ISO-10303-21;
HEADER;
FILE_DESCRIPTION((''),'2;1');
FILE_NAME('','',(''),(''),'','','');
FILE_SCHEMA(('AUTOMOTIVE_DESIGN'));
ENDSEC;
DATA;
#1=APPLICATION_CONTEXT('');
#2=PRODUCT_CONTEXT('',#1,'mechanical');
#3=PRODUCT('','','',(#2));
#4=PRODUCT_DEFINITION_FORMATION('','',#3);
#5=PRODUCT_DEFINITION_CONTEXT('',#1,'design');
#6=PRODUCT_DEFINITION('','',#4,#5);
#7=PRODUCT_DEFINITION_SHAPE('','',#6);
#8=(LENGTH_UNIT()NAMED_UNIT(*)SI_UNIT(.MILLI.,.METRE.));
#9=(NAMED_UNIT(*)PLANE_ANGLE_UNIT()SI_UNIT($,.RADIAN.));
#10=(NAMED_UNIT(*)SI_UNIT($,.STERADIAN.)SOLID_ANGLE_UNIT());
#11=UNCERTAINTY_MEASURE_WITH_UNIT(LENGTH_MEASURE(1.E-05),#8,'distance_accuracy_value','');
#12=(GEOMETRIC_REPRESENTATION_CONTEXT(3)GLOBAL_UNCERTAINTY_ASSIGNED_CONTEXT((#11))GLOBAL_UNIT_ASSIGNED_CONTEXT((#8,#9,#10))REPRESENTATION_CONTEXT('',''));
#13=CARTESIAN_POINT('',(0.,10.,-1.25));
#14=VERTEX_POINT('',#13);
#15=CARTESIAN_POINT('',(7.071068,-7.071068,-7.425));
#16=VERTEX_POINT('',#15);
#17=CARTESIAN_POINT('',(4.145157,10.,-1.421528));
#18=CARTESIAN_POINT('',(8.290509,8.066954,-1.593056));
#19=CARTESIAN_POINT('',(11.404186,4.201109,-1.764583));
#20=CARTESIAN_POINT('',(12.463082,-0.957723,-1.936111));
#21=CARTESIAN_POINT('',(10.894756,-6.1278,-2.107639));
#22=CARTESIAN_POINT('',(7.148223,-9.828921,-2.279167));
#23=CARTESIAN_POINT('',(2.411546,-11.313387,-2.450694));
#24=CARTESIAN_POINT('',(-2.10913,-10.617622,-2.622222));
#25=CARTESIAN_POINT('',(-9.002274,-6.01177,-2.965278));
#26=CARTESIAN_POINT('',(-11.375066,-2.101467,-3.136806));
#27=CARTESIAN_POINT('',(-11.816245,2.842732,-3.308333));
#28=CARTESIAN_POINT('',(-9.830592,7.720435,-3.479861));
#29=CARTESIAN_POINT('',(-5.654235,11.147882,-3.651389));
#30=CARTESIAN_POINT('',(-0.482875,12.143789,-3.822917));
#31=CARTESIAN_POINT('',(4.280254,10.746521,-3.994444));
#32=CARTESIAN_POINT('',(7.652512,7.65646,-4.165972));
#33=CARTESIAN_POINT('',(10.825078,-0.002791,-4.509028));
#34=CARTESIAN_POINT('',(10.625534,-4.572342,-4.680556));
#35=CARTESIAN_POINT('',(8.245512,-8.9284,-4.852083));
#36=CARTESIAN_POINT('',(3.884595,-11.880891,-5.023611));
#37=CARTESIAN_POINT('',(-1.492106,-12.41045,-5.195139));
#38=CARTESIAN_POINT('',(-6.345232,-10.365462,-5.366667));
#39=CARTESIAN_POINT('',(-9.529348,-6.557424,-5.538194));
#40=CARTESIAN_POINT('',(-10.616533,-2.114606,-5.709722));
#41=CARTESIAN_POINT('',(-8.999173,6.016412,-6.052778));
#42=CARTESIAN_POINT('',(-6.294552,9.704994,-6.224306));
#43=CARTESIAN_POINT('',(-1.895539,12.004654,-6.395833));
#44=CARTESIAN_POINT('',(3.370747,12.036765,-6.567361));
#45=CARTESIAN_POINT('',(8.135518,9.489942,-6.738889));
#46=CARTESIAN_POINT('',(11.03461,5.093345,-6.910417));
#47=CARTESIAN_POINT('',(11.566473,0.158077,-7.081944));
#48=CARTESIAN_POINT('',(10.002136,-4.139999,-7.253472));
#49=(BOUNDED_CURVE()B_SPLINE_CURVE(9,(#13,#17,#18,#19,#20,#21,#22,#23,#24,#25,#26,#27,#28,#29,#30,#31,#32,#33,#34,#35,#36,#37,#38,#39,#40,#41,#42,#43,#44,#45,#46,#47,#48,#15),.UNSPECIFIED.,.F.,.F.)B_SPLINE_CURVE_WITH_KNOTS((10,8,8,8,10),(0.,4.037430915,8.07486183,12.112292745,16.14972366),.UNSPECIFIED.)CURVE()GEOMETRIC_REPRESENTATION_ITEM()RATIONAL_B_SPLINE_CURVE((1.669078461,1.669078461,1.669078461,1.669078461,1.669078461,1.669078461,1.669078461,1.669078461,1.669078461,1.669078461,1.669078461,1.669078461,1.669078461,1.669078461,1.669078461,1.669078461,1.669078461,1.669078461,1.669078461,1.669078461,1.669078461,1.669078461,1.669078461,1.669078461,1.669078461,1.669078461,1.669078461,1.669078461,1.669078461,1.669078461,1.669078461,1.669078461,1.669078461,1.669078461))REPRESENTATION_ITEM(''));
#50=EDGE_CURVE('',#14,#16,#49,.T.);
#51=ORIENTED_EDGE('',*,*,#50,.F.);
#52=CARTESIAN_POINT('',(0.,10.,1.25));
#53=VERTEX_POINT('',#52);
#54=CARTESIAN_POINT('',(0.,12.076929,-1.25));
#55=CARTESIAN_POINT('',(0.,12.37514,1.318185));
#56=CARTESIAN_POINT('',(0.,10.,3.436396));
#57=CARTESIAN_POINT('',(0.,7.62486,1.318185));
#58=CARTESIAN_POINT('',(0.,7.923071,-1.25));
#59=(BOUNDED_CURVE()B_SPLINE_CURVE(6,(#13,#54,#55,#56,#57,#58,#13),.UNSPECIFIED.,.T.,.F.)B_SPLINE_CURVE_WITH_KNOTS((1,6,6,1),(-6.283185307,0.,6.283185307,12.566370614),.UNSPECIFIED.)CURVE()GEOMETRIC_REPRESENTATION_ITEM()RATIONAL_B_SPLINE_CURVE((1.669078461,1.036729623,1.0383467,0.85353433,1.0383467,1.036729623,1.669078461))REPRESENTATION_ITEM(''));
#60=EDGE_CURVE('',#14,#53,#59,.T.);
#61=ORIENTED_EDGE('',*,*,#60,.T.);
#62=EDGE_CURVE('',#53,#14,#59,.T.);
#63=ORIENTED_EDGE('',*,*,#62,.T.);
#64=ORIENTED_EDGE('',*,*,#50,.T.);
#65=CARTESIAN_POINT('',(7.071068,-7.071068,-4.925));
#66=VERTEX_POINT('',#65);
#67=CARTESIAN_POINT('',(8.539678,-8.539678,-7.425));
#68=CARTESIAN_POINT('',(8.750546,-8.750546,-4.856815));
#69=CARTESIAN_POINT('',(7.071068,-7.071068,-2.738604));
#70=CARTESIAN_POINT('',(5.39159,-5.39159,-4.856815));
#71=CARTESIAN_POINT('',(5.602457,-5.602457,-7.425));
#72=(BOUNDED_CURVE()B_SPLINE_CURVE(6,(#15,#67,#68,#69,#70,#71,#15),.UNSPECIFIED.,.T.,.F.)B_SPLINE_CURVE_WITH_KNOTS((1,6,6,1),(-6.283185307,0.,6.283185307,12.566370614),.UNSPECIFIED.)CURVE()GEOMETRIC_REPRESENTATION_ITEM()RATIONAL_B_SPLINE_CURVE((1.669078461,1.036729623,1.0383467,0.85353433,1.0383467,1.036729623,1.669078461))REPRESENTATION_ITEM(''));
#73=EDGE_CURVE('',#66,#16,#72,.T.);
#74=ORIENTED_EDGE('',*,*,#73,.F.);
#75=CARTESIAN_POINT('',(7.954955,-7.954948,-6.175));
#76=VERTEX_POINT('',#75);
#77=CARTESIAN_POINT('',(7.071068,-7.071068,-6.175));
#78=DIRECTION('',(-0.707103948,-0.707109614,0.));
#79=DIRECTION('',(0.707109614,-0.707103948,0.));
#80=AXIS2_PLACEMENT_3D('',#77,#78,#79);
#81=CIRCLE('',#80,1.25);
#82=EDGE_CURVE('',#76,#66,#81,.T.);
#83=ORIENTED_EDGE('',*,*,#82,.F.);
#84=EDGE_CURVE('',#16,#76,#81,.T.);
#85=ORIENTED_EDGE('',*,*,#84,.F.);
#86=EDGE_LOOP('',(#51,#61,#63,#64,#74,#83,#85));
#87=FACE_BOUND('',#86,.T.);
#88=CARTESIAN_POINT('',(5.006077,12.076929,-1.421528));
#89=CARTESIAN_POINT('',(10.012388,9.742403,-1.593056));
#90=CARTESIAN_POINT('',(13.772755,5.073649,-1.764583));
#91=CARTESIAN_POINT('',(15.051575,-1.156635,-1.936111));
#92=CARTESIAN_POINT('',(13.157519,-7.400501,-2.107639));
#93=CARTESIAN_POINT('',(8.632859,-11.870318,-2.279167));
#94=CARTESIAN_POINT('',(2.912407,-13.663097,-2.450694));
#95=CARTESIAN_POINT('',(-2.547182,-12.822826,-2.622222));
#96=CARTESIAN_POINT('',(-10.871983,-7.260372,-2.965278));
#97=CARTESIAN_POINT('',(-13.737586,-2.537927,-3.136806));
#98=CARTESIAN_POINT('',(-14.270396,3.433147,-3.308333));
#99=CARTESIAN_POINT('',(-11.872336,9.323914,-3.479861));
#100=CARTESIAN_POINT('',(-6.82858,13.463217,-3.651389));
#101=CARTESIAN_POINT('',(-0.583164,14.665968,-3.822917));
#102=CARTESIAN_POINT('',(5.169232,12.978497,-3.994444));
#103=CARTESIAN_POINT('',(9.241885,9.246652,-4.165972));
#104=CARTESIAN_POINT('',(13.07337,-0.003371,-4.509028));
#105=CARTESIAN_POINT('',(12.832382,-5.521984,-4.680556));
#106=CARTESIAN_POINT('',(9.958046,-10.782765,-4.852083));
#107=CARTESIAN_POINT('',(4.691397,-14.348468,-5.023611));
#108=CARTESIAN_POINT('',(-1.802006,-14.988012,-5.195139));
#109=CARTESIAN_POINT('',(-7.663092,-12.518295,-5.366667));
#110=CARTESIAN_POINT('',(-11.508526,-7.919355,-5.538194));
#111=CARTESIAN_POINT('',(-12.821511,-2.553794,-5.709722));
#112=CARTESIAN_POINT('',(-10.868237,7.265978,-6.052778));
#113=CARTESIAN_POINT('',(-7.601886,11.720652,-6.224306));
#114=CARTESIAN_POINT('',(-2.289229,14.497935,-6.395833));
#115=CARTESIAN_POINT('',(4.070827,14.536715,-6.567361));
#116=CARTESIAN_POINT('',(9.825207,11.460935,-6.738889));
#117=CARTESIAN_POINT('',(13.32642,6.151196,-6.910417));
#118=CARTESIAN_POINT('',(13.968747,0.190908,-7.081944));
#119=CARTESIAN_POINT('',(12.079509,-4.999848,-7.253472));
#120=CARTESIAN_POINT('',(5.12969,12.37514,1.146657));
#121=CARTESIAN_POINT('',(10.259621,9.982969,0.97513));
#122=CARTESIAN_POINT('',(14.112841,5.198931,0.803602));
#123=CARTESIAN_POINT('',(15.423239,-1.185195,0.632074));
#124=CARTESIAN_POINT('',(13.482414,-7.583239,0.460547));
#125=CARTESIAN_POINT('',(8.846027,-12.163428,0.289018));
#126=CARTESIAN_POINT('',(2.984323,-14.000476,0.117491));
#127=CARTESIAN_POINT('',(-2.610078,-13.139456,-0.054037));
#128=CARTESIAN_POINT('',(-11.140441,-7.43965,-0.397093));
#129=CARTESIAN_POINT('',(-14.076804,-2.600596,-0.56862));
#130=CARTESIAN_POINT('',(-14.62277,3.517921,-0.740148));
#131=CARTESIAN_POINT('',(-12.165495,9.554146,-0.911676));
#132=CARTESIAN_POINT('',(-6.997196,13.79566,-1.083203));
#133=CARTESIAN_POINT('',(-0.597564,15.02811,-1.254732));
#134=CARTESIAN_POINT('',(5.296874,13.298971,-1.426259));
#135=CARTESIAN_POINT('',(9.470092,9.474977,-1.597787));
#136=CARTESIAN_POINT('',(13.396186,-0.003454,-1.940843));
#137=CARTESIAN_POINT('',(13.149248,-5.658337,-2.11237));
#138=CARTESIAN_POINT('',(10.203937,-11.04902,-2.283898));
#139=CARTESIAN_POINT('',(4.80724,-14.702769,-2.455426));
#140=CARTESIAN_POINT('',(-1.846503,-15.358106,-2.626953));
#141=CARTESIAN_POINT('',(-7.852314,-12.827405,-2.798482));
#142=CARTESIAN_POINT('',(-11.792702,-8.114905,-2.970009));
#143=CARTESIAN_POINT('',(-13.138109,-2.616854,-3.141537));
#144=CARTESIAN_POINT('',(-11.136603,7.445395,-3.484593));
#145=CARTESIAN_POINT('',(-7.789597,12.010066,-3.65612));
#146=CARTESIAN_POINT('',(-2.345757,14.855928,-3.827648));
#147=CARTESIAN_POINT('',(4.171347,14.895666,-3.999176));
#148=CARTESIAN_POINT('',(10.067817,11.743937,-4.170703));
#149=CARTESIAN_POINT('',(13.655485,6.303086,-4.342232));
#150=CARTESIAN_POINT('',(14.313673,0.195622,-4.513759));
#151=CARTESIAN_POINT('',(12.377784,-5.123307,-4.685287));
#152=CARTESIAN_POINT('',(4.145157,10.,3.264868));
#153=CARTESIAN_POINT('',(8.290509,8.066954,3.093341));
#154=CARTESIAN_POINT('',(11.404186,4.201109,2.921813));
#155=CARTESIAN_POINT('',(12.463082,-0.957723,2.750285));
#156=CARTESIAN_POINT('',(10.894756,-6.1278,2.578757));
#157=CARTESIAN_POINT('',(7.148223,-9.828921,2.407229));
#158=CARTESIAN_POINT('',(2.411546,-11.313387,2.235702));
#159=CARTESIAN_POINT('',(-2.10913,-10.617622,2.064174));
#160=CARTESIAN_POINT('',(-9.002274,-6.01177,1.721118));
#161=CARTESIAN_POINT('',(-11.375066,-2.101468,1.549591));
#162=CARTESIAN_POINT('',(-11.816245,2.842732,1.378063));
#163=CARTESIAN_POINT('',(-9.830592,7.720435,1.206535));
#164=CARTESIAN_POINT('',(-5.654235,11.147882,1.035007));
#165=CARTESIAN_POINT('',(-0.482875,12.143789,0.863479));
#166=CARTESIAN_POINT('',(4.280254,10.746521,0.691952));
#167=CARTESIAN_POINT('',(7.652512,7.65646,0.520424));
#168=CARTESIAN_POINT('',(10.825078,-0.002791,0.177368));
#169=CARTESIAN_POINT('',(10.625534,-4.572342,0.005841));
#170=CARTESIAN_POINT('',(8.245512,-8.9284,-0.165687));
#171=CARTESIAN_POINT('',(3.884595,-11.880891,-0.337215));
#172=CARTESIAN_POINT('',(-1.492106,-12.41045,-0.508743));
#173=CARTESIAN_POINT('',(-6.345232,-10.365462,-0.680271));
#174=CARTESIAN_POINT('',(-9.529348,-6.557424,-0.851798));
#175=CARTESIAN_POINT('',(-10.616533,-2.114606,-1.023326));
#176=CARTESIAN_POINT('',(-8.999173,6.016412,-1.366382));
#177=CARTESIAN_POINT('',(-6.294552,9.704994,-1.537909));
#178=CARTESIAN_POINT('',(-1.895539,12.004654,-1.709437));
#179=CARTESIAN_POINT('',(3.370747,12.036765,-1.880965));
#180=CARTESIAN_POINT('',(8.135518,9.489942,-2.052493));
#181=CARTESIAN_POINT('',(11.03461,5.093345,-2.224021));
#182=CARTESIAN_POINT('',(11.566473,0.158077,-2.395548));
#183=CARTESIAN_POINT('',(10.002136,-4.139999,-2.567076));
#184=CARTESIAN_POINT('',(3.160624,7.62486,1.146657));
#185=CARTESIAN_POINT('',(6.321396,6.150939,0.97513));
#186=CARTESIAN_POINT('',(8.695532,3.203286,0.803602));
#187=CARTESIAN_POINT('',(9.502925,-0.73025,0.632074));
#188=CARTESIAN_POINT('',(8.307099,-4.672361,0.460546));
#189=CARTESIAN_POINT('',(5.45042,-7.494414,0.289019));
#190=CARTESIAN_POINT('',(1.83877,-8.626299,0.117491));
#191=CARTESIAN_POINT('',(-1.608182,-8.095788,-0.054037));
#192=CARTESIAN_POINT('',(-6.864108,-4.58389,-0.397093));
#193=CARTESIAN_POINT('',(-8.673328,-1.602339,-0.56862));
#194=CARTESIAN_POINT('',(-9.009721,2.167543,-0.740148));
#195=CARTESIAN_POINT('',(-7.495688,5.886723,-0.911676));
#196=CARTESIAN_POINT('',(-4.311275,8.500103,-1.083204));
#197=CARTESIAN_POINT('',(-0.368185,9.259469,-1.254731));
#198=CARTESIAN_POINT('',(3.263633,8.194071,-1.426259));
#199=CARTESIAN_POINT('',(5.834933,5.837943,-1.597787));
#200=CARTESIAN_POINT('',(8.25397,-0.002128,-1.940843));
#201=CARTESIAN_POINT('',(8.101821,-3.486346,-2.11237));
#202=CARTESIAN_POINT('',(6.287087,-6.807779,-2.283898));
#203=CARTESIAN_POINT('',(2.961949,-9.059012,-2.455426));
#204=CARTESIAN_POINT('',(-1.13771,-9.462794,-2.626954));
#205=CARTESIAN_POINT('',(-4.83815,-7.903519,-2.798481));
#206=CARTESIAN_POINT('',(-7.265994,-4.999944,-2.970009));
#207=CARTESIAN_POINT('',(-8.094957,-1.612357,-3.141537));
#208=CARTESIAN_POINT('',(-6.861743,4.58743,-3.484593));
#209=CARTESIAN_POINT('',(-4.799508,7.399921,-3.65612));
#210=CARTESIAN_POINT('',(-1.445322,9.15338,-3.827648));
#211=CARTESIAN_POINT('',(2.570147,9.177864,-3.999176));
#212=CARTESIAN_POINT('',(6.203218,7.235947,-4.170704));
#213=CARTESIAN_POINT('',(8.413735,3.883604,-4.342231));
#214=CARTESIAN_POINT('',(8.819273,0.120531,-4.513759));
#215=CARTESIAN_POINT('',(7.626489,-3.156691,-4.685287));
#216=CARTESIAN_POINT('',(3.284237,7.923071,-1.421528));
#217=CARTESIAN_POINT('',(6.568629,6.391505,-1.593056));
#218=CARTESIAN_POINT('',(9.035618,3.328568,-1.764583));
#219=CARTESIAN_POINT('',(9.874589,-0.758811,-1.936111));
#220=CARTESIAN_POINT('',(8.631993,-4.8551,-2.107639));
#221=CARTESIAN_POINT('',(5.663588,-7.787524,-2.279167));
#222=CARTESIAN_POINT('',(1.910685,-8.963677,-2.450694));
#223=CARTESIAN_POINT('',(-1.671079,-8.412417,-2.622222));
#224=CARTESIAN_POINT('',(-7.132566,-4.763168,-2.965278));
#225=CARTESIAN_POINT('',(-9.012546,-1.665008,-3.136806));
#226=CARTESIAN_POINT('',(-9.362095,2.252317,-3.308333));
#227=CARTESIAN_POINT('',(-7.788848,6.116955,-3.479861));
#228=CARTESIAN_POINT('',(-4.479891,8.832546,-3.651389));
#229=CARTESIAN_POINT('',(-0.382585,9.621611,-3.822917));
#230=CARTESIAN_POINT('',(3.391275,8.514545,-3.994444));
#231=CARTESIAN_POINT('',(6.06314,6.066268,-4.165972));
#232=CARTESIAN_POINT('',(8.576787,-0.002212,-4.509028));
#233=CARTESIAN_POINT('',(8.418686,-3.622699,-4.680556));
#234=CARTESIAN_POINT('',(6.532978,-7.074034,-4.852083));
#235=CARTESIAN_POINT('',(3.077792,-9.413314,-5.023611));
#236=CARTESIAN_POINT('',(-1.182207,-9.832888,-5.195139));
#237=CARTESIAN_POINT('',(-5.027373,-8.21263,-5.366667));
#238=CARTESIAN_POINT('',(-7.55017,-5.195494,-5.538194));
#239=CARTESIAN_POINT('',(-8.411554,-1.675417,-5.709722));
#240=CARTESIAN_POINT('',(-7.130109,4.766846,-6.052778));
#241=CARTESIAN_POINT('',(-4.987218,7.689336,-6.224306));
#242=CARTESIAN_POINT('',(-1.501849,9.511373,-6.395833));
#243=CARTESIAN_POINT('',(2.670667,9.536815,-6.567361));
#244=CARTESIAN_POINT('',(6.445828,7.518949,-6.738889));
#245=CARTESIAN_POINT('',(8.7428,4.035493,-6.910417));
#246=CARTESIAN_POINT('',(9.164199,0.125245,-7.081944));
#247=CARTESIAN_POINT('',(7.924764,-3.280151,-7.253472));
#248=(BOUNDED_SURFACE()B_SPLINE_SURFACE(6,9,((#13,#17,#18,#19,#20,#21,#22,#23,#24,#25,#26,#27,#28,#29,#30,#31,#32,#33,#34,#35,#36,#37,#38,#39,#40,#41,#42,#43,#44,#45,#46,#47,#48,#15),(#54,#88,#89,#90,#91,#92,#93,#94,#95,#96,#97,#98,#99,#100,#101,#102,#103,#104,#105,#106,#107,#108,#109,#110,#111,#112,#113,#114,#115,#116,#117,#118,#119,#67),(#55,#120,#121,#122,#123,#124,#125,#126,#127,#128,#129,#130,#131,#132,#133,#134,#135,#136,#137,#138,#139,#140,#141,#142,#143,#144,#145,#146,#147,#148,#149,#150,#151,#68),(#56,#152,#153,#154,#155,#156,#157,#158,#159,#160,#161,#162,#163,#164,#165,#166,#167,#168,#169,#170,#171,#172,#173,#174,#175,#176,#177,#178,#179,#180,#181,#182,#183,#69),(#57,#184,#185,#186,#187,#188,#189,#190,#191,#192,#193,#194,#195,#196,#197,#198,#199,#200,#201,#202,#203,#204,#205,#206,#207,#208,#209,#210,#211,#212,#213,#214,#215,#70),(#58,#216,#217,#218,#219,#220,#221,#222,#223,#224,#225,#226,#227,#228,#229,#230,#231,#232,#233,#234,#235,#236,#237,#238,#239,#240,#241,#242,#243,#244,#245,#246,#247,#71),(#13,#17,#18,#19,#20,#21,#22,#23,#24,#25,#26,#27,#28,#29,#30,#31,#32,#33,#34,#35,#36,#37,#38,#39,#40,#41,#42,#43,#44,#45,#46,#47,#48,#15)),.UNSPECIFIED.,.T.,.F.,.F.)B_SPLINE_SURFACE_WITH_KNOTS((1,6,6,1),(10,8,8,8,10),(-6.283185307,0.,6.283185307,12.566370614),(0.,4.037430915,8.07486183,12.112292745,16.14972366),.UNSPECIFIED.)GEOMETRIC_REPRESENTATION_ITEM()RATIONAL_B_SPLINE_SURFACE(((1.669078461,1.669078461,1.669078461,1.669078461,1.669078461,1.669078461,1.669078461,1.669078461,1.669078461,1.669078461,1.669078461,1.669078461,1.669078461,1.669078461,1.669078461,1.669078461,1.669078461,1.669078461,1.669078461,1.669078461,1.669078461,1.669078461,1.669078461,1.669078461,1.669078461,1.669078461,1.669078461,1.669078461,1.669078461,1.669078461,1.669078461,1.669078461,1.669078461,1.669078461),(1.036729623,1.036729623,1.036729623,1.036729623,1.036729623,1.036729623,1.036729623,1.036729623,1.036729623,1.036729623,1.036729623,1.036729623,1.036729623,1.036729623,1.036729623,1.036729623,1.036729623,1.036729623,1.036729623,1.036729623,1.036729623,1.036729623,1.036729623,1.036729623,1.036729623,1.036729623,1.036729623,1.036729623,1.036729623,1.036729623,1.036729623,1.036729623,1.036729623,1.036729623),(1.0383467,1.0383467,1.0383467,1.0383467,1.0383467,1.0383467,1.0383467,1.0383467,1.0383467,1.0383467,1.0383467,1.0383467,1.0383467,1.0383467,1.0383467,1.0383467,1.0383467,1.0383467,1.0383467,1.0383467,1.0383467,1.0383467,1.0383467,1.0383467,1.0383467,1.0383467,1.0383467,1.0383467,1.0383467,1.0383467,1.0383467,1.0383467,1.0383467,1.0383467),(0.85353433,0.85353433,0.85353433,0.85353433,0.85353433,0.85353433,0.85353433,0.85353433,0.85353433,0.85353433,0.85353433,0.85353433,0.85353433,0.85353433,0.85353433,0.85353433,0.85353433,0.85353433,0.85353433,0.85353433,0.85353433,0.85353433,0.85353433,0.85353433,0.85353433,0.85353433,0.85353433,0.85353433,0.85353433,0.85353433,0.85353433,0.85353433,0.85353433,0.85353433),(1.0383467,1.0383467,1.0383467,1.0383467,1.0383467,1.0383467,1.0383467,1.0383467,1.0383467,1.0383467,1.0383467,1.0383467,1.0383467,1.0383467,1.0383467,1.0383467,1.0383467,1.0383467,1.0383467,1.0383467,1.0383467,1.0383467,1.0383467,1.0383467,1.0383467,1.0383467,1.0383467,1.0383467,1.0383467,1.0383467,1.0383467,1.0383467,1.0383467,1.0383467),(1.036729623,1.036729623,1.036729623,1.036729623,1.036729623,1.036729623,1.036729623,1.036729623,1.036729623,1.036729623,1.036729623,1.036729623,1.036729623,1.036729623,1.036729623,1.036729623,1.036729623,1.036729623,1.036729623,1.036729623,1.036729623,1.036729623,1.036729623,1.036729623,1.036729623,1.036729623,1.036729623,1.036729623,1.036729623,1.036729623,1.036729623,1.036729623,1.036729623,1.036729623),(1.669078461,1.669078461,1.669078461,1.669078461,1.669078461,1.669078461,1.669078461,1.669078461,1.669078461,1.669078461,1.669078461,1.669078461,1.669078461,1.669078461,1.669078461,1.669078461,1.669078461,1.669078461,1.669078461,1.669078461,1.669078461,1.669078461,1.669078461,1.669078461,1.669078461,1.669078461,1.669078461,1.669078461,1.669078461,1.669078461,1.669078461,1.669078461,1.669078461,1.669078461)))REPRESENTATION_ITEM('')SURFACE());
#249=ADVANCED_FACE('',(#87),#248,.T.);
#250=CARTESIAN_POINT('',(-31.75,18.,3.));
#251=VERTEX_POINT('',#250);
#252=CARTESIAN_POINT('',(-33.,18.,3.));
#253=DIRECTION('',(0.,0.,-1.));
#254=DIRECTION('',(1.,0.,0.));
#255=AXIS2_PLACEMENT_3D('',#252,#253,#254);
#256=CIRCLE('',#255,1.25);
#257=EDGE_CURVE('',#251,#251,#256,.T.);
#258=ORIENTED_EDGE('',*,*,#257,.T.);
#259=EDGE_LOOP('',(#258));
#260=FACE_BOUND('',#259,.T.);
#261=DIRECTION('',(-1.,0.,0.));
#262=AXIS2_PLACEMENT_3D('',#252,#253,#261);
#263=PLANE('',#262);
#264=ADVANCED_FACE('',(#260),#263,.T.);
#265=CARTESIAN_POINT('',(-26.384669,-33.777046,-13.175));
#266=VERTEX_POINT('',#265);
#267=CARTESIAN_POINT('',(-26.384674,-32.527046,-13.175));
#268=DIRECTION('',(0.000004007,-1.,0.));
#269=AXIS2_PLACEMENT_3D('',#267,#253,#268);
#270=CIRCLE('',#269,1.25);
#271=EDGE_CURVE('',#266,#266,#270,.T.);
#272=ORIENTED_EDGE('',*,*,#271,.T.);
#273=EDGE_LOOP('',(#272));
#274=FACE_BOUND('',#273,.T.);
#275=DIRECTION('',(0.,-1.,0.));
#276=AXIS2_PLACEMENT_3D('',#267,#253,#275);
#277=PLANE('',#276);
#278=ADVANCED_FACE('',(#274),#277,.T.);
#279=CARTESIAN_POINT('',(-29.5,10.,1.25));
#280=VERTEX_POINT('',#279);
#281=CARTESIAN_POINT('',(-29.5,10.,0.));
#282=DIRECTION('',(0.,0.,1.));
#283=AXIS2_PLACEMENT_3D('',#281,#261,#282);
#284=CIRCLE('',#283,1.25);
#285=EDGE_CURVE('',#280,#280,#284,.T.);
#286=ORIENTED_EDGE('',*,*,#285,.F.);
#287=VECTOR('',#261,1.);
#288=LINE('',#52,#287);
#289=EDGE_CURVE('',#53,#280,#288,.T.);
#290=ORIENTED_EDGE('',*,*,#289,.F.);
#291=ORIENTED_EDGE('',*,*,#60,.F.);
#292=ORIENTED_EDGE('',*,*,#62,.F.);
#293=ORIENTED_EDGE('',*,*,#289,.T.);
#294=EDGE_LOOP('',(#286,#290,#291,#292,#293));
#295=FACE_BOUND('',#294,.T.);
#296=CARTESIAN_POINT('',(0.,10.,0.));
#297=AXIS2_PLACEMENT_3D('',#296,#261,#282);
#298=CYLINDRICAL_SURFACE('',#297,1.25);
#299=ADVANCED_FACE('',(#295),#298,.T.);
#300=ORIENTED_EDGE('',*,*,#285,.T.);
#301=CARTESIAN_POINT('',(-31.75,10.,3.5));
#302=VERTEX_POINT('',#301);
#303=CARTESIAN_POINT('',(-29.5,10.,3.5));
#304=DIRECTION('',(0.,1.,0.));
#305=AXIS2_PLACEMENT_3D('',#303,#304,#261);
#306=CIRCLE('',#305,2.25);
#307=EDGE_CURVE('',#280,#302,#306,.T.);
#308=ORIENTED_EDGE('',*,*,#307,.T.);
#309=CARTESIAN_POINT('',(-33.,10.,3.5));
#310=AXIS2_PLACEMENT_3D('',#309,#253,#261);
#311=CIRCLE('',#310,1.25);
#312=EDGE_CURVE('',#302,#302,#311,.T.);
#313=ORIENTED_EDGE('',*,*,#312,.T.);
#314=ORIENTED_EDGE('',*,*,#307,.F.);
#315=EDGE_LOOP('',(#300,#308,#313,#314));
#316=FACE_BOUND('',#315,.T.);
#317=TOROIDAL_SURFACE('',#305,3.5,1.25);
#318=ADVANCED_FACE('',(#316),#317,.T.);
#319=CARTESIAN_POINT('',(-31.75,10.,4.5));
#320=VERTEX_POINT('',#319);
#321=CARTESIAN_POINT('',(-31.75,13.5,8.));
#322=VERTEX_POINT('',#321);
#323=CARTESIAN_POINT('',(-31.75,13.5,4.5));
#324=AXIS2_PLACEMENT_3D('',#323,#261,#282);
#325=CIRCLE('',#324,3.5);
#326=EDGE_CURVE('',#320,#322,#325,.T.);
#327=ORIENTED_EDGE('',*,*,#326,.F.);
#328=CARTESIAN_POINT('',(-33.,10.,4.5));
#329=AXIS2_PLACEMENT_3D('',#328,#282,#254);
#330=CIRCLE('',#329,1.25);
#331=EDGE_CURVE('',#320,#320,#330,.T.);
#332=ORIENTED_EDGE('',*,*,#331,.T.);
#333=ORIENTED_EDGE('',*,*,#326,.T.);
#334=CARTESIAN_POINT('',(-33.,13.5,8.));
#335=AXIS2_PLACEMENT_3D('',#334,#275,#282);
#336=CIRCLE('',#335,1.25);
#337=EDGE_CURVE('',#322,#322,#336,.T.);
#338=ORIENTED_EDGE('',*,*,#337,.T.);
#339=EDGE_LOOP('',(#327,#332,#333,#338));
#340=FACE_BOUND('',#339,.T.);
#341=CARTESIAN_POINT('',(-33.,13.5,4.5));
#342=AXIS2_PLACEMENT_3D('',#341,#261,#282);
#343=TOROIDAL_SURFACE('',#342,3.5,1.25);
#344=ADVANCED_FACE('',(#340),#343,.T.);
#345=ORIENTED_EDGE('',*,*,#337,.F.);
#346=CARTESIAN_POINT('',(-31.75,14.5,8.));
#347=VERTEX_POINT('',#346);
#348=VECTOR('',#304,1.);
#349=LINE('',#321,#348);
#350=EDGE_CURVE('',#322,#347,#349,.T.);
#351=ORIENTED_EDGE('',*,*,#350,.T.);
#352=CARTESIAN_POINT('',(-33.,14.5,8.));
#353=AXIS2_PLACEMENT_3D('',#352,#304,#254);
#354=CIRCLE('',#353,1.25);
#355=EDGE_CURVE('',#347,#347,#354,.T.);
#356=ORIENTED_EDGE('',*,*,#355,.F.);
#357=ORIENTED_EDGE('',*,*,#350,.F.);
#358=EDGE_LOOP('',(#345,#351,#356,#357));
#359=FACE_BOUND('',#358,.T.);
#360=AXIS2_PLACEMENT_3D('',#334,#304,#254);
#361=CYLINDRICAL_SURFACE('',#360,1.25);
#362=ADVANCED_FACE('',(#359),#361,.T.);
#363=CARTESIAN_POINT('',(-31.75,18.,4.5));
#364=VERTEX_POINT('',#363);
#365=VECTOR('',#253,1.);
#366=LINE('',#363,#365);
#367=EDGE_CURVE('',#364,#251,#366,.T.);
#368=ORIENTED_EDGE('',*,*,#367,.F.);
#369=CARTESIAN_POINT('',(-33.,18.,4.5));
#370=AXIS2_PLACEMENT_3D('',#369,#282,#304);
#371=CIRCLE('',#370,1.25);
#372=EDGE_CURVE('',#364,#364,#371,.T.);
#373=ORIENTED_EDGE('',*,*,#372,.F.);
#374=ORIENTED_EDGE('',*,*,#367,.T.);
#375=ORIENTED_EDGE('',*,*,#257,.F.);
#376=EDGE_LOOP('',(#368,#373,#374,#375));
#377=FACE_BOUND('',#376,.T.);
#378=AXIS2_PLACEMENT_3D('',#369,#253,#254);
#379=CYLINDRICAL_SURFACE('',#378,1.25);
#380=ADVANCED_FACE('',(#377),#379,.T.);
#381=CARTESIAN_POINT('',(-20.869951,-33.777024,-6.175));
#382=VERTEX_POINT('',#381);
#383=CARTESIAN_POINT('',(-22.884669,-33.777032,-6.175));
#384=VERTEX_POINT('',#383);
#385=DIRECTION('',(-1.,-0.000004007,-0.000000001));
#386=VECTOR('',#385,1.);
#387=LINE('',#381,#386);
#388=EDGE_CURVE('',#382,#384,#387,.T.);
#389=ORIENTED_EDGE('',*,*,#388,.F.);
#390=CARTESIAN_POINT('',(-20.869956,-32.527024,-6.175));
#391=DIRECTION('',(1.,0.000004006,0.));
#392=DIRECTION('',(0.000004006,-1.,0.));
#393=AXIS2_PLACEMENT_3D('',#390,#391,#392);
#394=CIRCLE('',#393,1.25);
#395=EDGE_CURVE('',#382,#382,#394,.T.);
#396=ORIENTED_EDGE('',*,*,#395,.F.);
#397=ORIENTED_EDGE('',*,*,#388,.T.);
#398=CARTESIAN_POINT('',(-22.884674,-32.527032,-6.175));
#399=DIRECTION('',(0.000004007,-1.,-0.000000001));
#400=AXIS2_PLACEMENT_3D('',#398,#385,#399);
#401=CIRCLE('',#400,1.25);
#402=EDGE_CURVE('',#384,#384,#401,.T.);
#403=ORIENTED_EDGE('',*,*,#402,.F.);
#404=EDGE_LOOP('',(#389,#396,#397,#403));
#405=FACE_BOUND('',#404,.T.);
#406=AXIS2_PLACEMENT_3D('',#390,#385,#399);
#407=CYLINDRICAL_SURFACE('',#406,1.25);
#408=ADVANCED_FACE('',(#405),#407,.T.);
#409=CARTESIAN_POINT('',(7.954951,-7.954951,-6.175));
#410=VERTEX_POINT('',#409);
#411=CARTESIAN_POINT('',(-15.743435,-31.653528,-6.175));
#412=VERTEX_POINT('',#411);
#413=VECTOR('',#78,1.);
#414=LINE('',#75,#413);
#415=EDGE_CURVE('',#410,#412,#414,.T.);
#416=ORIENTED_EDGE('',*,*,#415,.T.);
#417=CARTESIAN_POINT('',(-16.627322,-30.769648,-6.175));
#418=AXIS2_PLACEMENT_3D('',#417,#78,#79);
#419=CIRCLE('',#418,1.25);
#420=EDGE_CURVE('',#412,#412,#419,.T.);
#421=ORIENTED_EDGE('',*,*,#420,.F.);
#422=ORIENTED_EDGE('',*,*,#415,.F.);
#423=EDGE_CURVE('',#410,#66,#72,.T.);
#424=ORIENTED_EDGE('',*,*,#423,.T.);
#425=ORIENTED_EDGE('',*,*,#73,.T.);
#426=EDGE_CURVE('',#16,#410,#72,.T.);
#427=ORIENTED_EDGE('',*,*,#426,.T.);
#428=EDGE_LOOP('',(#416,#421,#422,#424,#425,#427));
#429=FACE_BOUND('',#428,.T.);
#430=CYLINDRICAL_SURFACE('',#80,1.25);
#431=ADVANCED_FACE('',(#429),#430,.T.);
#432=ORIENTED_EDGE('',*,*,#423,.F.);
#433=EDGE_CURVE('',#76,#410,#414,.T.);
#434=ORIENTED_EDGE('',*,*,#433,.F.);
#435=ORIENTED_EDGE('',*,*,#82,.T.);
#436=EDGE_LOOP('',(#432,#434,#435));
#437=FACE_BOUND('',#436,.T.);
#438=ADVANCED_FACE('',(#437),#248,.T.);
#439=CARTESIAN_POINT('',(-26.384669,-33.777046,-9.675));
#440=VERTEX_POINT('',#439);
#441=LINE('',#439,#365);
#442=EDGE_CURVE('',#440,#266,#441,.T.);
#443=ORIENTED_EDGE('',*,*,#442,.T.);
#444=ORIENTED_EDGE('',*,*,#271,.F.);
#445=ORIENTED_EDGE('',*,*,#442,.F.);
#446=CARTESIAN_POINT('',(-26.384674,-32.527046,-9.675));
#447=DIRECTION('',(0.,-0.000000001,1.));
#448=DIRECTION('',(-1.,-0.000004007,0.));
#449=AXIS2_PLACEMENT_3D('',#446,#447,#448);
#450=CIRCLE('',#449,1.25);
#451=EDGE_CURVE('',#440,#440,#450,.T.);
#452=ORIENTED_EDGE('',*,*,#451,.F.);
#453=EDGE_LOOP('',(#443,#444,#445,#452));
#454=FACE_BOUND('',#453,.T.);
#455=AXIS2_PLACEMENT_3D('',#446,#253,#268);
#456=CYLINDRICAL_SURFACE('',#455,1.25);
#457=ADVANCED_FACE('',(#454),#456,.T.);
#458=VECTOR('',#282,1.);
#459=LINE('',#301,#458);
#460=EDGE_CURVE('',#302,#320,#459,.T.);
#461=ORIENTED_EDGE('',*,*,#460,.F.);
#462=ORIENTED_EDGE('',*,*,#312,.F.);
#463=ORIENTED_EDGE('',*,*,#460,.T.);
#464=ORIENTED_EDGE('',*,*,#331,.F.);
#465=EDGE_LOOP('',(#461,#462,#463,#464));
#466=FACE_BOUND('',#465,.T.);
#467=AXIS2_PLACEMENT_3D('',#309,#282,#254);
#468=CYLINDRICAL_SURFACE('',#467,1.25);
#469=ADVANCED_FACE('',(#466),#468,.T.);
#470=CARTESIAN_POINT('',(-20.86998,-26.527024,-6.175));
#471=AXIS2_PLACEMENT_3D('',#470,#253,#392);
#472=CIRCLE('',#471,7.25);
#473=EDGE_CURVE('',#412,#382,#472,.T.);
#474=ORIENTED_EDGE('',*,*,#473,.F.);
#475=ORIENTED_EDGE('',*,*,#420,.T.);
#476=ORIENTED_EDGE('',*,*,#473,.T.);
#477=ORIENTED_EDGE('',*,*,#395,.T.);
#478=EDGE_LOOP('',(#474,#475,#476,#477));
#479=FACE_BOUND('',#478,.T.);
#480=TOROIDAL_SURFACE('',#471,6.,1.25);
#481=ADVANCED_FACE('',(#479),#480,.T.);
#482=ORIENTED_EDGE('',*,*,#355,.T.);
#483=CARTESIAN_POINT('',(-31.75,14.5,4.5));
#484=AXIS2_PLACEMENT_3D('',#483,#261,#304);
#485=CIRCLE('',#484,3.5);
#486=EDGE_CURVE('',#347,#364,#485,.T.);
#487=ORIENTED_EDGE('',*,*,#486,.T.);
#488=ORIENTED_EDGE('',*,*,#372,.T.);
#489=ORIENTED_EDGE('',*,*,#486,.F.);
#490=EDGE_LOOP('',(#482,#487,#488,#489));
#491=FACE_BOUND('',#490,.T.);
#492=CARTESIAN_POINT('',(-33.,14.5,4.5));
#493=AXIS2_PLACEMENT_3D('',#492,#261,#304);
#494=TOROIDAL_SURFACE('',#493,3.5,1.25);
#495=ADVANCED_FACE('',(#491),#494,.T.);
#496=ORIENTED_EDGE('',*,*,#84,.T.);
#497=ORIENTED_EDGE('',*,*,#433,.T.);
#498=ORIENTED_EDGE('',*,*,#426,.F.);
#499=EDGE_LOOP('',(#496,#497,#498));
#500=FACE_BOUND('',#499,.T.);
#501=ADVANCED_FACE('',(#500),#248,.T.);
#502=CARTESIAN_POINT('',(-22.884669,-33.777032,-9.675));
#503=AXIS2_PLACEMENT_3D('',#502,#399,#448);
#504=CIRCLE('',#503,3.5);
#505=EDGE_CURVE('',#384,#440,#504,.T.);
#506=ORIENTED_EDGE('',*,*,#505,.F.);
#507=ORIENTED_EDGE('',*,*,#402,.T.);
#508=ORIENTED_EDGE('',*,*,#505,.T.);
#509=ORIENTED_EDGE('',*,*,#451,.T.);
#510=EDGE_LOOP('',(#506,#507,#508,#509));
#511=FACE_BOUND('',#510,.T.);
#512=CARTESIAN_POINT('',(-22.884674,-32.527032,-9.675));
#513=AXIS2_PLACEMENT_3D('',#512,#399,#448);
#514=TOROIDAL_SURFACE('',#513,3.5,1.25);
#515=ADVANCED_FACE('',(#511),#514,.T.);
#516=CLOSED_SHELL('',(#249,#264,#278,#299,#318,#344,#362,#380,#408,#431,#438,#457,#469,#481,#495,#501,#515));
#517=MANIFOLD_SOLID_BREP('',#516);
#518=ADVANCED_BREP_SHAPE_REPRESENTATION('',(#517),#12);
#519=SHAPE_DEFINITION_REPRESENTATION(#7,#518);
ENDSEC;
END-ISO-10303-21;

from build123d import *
from build123d.topology import SkipClean

# Parameters (mm, degrees)
BASE_BALAYAGE_PITCH       = 2.6
BASE_BALAYAGE_HEIGHT      = 6.175
BASE_BALAYAGE_RADIUS      = 10
BASE_BALAYAGE_START_ANGLE = 90
ESQUISSE2_R               = 1.25
ESQUISSE3_R               = 1.25
ESQUISSE4_R               = 1.25


with BuildPart() as part:
    # Base-Balayage: sweep along a helix
    with BuildLine() as base_balayage_path:
        add(Helix(BASE_BALAYAGE_PITCH, BASE_BALAYAGE_HEIGHT, BASE_BALAYAGE_RADIUS, center=(0, 0, 0), direction=(0, 0, -1), mode=Mode.PRIVATE).rotate(Axis((0, 0, 0), (0, 0, -1)), BASE_BALAYAGE_START_ANGLE))
    # Esquisse2 → Base-Balayage (sweep)
    with BuildSketch(Plane(origin=(0, 0, 0), x_dir=(0, 0, -1), z_dir=(1, 0, 0))):
        with Locations((0, 10)):
            Circle(ESQUISSE2_R)
    sweep(path=base_balayage_path.line, is_frenet=True)

    # Boss.-Balayage1: sweep along a curve in space
    with BuildLine() as boss_balayage1_path:
        Line((0, 10, 0), (-29.5, 10, 0))
        ThreePointArc((-33, 10, 3.5), (-31.974873734, 10, 1.025126266), (-29.5, 10, 0))
        Line((-33, 10, 3.5), (-33, 10, 4.5))
        ThreePointArc((-33, 13.5, 8), (-33, 11.025126266, 6.974873734), (-33, 10, 4.5))
        Line((-33, 13.5, 8), (-33, 14.5, 8))
        ThreePointArc((-33, 18, 4.5), (-33, 16.974873734, 6.974873734), (-33, 14.5, 8))
        Line((-33, 18, 4.5), (-33, 18, 3))
    # Esquisse3 → Boss.-Balayage1 (sweep)
    with BuildSketch(Plane.ZY):
        with Locations((0, 10)):
            Circle(ESQUISSE3_R)
    sweep(path=boss_balayage1_path.line)

    # Boss.-Balayage2: sweep along a curve in space
    with SkipClean():  # the faces are left unmerged after this step: merging them gives an invalid solid
        with BuildLine() as boss_balayage2_path:
            Line((7.071067812, -7.071067812, -6.175), (-16.627322047, -30.76964757, -6.175))
            ThreePointArc((-20.869955693, -32.527023881, -6.175000002), (-18.573856929, -32.070291877, -6.175000001), (-16.627322047, -30.76964757, -6.175))
            Line((-20.869955693, -32.527023881, -6.175000002), (-22.884674324, -32.527031953, -6.175000004))
            ThreePointArc((-26.384674321, -32.527045975, -9.675000004), (-25.359548056, -32.527041869, -7.200126271), (-22.884674324, -32.527031953, -6.175000004))
            Line((-26.384674321, -32.527045975, -9.675000004), (-26.384674321, -32.527045974, -13.175000007))
        # Esquisse4 → Boss.-Balayage2 (sweep)
        with BuildSketch(Plane(origin=(-2.8331e-05, -2.8331e-05, 0), x_dir=(0.7071096142315938, -0.7071039481301505, -1.9395935214637244e-10), z_dir=(-0.7071039481301505, -0.7071096142315938, -1.939609063639214e-10))):
            with Locations((10.000000001, -6.174999998)):
                Circle(ESQUISSE4_R)
        sweep(path=boss_balayage2_path.line)


solid = part.part
